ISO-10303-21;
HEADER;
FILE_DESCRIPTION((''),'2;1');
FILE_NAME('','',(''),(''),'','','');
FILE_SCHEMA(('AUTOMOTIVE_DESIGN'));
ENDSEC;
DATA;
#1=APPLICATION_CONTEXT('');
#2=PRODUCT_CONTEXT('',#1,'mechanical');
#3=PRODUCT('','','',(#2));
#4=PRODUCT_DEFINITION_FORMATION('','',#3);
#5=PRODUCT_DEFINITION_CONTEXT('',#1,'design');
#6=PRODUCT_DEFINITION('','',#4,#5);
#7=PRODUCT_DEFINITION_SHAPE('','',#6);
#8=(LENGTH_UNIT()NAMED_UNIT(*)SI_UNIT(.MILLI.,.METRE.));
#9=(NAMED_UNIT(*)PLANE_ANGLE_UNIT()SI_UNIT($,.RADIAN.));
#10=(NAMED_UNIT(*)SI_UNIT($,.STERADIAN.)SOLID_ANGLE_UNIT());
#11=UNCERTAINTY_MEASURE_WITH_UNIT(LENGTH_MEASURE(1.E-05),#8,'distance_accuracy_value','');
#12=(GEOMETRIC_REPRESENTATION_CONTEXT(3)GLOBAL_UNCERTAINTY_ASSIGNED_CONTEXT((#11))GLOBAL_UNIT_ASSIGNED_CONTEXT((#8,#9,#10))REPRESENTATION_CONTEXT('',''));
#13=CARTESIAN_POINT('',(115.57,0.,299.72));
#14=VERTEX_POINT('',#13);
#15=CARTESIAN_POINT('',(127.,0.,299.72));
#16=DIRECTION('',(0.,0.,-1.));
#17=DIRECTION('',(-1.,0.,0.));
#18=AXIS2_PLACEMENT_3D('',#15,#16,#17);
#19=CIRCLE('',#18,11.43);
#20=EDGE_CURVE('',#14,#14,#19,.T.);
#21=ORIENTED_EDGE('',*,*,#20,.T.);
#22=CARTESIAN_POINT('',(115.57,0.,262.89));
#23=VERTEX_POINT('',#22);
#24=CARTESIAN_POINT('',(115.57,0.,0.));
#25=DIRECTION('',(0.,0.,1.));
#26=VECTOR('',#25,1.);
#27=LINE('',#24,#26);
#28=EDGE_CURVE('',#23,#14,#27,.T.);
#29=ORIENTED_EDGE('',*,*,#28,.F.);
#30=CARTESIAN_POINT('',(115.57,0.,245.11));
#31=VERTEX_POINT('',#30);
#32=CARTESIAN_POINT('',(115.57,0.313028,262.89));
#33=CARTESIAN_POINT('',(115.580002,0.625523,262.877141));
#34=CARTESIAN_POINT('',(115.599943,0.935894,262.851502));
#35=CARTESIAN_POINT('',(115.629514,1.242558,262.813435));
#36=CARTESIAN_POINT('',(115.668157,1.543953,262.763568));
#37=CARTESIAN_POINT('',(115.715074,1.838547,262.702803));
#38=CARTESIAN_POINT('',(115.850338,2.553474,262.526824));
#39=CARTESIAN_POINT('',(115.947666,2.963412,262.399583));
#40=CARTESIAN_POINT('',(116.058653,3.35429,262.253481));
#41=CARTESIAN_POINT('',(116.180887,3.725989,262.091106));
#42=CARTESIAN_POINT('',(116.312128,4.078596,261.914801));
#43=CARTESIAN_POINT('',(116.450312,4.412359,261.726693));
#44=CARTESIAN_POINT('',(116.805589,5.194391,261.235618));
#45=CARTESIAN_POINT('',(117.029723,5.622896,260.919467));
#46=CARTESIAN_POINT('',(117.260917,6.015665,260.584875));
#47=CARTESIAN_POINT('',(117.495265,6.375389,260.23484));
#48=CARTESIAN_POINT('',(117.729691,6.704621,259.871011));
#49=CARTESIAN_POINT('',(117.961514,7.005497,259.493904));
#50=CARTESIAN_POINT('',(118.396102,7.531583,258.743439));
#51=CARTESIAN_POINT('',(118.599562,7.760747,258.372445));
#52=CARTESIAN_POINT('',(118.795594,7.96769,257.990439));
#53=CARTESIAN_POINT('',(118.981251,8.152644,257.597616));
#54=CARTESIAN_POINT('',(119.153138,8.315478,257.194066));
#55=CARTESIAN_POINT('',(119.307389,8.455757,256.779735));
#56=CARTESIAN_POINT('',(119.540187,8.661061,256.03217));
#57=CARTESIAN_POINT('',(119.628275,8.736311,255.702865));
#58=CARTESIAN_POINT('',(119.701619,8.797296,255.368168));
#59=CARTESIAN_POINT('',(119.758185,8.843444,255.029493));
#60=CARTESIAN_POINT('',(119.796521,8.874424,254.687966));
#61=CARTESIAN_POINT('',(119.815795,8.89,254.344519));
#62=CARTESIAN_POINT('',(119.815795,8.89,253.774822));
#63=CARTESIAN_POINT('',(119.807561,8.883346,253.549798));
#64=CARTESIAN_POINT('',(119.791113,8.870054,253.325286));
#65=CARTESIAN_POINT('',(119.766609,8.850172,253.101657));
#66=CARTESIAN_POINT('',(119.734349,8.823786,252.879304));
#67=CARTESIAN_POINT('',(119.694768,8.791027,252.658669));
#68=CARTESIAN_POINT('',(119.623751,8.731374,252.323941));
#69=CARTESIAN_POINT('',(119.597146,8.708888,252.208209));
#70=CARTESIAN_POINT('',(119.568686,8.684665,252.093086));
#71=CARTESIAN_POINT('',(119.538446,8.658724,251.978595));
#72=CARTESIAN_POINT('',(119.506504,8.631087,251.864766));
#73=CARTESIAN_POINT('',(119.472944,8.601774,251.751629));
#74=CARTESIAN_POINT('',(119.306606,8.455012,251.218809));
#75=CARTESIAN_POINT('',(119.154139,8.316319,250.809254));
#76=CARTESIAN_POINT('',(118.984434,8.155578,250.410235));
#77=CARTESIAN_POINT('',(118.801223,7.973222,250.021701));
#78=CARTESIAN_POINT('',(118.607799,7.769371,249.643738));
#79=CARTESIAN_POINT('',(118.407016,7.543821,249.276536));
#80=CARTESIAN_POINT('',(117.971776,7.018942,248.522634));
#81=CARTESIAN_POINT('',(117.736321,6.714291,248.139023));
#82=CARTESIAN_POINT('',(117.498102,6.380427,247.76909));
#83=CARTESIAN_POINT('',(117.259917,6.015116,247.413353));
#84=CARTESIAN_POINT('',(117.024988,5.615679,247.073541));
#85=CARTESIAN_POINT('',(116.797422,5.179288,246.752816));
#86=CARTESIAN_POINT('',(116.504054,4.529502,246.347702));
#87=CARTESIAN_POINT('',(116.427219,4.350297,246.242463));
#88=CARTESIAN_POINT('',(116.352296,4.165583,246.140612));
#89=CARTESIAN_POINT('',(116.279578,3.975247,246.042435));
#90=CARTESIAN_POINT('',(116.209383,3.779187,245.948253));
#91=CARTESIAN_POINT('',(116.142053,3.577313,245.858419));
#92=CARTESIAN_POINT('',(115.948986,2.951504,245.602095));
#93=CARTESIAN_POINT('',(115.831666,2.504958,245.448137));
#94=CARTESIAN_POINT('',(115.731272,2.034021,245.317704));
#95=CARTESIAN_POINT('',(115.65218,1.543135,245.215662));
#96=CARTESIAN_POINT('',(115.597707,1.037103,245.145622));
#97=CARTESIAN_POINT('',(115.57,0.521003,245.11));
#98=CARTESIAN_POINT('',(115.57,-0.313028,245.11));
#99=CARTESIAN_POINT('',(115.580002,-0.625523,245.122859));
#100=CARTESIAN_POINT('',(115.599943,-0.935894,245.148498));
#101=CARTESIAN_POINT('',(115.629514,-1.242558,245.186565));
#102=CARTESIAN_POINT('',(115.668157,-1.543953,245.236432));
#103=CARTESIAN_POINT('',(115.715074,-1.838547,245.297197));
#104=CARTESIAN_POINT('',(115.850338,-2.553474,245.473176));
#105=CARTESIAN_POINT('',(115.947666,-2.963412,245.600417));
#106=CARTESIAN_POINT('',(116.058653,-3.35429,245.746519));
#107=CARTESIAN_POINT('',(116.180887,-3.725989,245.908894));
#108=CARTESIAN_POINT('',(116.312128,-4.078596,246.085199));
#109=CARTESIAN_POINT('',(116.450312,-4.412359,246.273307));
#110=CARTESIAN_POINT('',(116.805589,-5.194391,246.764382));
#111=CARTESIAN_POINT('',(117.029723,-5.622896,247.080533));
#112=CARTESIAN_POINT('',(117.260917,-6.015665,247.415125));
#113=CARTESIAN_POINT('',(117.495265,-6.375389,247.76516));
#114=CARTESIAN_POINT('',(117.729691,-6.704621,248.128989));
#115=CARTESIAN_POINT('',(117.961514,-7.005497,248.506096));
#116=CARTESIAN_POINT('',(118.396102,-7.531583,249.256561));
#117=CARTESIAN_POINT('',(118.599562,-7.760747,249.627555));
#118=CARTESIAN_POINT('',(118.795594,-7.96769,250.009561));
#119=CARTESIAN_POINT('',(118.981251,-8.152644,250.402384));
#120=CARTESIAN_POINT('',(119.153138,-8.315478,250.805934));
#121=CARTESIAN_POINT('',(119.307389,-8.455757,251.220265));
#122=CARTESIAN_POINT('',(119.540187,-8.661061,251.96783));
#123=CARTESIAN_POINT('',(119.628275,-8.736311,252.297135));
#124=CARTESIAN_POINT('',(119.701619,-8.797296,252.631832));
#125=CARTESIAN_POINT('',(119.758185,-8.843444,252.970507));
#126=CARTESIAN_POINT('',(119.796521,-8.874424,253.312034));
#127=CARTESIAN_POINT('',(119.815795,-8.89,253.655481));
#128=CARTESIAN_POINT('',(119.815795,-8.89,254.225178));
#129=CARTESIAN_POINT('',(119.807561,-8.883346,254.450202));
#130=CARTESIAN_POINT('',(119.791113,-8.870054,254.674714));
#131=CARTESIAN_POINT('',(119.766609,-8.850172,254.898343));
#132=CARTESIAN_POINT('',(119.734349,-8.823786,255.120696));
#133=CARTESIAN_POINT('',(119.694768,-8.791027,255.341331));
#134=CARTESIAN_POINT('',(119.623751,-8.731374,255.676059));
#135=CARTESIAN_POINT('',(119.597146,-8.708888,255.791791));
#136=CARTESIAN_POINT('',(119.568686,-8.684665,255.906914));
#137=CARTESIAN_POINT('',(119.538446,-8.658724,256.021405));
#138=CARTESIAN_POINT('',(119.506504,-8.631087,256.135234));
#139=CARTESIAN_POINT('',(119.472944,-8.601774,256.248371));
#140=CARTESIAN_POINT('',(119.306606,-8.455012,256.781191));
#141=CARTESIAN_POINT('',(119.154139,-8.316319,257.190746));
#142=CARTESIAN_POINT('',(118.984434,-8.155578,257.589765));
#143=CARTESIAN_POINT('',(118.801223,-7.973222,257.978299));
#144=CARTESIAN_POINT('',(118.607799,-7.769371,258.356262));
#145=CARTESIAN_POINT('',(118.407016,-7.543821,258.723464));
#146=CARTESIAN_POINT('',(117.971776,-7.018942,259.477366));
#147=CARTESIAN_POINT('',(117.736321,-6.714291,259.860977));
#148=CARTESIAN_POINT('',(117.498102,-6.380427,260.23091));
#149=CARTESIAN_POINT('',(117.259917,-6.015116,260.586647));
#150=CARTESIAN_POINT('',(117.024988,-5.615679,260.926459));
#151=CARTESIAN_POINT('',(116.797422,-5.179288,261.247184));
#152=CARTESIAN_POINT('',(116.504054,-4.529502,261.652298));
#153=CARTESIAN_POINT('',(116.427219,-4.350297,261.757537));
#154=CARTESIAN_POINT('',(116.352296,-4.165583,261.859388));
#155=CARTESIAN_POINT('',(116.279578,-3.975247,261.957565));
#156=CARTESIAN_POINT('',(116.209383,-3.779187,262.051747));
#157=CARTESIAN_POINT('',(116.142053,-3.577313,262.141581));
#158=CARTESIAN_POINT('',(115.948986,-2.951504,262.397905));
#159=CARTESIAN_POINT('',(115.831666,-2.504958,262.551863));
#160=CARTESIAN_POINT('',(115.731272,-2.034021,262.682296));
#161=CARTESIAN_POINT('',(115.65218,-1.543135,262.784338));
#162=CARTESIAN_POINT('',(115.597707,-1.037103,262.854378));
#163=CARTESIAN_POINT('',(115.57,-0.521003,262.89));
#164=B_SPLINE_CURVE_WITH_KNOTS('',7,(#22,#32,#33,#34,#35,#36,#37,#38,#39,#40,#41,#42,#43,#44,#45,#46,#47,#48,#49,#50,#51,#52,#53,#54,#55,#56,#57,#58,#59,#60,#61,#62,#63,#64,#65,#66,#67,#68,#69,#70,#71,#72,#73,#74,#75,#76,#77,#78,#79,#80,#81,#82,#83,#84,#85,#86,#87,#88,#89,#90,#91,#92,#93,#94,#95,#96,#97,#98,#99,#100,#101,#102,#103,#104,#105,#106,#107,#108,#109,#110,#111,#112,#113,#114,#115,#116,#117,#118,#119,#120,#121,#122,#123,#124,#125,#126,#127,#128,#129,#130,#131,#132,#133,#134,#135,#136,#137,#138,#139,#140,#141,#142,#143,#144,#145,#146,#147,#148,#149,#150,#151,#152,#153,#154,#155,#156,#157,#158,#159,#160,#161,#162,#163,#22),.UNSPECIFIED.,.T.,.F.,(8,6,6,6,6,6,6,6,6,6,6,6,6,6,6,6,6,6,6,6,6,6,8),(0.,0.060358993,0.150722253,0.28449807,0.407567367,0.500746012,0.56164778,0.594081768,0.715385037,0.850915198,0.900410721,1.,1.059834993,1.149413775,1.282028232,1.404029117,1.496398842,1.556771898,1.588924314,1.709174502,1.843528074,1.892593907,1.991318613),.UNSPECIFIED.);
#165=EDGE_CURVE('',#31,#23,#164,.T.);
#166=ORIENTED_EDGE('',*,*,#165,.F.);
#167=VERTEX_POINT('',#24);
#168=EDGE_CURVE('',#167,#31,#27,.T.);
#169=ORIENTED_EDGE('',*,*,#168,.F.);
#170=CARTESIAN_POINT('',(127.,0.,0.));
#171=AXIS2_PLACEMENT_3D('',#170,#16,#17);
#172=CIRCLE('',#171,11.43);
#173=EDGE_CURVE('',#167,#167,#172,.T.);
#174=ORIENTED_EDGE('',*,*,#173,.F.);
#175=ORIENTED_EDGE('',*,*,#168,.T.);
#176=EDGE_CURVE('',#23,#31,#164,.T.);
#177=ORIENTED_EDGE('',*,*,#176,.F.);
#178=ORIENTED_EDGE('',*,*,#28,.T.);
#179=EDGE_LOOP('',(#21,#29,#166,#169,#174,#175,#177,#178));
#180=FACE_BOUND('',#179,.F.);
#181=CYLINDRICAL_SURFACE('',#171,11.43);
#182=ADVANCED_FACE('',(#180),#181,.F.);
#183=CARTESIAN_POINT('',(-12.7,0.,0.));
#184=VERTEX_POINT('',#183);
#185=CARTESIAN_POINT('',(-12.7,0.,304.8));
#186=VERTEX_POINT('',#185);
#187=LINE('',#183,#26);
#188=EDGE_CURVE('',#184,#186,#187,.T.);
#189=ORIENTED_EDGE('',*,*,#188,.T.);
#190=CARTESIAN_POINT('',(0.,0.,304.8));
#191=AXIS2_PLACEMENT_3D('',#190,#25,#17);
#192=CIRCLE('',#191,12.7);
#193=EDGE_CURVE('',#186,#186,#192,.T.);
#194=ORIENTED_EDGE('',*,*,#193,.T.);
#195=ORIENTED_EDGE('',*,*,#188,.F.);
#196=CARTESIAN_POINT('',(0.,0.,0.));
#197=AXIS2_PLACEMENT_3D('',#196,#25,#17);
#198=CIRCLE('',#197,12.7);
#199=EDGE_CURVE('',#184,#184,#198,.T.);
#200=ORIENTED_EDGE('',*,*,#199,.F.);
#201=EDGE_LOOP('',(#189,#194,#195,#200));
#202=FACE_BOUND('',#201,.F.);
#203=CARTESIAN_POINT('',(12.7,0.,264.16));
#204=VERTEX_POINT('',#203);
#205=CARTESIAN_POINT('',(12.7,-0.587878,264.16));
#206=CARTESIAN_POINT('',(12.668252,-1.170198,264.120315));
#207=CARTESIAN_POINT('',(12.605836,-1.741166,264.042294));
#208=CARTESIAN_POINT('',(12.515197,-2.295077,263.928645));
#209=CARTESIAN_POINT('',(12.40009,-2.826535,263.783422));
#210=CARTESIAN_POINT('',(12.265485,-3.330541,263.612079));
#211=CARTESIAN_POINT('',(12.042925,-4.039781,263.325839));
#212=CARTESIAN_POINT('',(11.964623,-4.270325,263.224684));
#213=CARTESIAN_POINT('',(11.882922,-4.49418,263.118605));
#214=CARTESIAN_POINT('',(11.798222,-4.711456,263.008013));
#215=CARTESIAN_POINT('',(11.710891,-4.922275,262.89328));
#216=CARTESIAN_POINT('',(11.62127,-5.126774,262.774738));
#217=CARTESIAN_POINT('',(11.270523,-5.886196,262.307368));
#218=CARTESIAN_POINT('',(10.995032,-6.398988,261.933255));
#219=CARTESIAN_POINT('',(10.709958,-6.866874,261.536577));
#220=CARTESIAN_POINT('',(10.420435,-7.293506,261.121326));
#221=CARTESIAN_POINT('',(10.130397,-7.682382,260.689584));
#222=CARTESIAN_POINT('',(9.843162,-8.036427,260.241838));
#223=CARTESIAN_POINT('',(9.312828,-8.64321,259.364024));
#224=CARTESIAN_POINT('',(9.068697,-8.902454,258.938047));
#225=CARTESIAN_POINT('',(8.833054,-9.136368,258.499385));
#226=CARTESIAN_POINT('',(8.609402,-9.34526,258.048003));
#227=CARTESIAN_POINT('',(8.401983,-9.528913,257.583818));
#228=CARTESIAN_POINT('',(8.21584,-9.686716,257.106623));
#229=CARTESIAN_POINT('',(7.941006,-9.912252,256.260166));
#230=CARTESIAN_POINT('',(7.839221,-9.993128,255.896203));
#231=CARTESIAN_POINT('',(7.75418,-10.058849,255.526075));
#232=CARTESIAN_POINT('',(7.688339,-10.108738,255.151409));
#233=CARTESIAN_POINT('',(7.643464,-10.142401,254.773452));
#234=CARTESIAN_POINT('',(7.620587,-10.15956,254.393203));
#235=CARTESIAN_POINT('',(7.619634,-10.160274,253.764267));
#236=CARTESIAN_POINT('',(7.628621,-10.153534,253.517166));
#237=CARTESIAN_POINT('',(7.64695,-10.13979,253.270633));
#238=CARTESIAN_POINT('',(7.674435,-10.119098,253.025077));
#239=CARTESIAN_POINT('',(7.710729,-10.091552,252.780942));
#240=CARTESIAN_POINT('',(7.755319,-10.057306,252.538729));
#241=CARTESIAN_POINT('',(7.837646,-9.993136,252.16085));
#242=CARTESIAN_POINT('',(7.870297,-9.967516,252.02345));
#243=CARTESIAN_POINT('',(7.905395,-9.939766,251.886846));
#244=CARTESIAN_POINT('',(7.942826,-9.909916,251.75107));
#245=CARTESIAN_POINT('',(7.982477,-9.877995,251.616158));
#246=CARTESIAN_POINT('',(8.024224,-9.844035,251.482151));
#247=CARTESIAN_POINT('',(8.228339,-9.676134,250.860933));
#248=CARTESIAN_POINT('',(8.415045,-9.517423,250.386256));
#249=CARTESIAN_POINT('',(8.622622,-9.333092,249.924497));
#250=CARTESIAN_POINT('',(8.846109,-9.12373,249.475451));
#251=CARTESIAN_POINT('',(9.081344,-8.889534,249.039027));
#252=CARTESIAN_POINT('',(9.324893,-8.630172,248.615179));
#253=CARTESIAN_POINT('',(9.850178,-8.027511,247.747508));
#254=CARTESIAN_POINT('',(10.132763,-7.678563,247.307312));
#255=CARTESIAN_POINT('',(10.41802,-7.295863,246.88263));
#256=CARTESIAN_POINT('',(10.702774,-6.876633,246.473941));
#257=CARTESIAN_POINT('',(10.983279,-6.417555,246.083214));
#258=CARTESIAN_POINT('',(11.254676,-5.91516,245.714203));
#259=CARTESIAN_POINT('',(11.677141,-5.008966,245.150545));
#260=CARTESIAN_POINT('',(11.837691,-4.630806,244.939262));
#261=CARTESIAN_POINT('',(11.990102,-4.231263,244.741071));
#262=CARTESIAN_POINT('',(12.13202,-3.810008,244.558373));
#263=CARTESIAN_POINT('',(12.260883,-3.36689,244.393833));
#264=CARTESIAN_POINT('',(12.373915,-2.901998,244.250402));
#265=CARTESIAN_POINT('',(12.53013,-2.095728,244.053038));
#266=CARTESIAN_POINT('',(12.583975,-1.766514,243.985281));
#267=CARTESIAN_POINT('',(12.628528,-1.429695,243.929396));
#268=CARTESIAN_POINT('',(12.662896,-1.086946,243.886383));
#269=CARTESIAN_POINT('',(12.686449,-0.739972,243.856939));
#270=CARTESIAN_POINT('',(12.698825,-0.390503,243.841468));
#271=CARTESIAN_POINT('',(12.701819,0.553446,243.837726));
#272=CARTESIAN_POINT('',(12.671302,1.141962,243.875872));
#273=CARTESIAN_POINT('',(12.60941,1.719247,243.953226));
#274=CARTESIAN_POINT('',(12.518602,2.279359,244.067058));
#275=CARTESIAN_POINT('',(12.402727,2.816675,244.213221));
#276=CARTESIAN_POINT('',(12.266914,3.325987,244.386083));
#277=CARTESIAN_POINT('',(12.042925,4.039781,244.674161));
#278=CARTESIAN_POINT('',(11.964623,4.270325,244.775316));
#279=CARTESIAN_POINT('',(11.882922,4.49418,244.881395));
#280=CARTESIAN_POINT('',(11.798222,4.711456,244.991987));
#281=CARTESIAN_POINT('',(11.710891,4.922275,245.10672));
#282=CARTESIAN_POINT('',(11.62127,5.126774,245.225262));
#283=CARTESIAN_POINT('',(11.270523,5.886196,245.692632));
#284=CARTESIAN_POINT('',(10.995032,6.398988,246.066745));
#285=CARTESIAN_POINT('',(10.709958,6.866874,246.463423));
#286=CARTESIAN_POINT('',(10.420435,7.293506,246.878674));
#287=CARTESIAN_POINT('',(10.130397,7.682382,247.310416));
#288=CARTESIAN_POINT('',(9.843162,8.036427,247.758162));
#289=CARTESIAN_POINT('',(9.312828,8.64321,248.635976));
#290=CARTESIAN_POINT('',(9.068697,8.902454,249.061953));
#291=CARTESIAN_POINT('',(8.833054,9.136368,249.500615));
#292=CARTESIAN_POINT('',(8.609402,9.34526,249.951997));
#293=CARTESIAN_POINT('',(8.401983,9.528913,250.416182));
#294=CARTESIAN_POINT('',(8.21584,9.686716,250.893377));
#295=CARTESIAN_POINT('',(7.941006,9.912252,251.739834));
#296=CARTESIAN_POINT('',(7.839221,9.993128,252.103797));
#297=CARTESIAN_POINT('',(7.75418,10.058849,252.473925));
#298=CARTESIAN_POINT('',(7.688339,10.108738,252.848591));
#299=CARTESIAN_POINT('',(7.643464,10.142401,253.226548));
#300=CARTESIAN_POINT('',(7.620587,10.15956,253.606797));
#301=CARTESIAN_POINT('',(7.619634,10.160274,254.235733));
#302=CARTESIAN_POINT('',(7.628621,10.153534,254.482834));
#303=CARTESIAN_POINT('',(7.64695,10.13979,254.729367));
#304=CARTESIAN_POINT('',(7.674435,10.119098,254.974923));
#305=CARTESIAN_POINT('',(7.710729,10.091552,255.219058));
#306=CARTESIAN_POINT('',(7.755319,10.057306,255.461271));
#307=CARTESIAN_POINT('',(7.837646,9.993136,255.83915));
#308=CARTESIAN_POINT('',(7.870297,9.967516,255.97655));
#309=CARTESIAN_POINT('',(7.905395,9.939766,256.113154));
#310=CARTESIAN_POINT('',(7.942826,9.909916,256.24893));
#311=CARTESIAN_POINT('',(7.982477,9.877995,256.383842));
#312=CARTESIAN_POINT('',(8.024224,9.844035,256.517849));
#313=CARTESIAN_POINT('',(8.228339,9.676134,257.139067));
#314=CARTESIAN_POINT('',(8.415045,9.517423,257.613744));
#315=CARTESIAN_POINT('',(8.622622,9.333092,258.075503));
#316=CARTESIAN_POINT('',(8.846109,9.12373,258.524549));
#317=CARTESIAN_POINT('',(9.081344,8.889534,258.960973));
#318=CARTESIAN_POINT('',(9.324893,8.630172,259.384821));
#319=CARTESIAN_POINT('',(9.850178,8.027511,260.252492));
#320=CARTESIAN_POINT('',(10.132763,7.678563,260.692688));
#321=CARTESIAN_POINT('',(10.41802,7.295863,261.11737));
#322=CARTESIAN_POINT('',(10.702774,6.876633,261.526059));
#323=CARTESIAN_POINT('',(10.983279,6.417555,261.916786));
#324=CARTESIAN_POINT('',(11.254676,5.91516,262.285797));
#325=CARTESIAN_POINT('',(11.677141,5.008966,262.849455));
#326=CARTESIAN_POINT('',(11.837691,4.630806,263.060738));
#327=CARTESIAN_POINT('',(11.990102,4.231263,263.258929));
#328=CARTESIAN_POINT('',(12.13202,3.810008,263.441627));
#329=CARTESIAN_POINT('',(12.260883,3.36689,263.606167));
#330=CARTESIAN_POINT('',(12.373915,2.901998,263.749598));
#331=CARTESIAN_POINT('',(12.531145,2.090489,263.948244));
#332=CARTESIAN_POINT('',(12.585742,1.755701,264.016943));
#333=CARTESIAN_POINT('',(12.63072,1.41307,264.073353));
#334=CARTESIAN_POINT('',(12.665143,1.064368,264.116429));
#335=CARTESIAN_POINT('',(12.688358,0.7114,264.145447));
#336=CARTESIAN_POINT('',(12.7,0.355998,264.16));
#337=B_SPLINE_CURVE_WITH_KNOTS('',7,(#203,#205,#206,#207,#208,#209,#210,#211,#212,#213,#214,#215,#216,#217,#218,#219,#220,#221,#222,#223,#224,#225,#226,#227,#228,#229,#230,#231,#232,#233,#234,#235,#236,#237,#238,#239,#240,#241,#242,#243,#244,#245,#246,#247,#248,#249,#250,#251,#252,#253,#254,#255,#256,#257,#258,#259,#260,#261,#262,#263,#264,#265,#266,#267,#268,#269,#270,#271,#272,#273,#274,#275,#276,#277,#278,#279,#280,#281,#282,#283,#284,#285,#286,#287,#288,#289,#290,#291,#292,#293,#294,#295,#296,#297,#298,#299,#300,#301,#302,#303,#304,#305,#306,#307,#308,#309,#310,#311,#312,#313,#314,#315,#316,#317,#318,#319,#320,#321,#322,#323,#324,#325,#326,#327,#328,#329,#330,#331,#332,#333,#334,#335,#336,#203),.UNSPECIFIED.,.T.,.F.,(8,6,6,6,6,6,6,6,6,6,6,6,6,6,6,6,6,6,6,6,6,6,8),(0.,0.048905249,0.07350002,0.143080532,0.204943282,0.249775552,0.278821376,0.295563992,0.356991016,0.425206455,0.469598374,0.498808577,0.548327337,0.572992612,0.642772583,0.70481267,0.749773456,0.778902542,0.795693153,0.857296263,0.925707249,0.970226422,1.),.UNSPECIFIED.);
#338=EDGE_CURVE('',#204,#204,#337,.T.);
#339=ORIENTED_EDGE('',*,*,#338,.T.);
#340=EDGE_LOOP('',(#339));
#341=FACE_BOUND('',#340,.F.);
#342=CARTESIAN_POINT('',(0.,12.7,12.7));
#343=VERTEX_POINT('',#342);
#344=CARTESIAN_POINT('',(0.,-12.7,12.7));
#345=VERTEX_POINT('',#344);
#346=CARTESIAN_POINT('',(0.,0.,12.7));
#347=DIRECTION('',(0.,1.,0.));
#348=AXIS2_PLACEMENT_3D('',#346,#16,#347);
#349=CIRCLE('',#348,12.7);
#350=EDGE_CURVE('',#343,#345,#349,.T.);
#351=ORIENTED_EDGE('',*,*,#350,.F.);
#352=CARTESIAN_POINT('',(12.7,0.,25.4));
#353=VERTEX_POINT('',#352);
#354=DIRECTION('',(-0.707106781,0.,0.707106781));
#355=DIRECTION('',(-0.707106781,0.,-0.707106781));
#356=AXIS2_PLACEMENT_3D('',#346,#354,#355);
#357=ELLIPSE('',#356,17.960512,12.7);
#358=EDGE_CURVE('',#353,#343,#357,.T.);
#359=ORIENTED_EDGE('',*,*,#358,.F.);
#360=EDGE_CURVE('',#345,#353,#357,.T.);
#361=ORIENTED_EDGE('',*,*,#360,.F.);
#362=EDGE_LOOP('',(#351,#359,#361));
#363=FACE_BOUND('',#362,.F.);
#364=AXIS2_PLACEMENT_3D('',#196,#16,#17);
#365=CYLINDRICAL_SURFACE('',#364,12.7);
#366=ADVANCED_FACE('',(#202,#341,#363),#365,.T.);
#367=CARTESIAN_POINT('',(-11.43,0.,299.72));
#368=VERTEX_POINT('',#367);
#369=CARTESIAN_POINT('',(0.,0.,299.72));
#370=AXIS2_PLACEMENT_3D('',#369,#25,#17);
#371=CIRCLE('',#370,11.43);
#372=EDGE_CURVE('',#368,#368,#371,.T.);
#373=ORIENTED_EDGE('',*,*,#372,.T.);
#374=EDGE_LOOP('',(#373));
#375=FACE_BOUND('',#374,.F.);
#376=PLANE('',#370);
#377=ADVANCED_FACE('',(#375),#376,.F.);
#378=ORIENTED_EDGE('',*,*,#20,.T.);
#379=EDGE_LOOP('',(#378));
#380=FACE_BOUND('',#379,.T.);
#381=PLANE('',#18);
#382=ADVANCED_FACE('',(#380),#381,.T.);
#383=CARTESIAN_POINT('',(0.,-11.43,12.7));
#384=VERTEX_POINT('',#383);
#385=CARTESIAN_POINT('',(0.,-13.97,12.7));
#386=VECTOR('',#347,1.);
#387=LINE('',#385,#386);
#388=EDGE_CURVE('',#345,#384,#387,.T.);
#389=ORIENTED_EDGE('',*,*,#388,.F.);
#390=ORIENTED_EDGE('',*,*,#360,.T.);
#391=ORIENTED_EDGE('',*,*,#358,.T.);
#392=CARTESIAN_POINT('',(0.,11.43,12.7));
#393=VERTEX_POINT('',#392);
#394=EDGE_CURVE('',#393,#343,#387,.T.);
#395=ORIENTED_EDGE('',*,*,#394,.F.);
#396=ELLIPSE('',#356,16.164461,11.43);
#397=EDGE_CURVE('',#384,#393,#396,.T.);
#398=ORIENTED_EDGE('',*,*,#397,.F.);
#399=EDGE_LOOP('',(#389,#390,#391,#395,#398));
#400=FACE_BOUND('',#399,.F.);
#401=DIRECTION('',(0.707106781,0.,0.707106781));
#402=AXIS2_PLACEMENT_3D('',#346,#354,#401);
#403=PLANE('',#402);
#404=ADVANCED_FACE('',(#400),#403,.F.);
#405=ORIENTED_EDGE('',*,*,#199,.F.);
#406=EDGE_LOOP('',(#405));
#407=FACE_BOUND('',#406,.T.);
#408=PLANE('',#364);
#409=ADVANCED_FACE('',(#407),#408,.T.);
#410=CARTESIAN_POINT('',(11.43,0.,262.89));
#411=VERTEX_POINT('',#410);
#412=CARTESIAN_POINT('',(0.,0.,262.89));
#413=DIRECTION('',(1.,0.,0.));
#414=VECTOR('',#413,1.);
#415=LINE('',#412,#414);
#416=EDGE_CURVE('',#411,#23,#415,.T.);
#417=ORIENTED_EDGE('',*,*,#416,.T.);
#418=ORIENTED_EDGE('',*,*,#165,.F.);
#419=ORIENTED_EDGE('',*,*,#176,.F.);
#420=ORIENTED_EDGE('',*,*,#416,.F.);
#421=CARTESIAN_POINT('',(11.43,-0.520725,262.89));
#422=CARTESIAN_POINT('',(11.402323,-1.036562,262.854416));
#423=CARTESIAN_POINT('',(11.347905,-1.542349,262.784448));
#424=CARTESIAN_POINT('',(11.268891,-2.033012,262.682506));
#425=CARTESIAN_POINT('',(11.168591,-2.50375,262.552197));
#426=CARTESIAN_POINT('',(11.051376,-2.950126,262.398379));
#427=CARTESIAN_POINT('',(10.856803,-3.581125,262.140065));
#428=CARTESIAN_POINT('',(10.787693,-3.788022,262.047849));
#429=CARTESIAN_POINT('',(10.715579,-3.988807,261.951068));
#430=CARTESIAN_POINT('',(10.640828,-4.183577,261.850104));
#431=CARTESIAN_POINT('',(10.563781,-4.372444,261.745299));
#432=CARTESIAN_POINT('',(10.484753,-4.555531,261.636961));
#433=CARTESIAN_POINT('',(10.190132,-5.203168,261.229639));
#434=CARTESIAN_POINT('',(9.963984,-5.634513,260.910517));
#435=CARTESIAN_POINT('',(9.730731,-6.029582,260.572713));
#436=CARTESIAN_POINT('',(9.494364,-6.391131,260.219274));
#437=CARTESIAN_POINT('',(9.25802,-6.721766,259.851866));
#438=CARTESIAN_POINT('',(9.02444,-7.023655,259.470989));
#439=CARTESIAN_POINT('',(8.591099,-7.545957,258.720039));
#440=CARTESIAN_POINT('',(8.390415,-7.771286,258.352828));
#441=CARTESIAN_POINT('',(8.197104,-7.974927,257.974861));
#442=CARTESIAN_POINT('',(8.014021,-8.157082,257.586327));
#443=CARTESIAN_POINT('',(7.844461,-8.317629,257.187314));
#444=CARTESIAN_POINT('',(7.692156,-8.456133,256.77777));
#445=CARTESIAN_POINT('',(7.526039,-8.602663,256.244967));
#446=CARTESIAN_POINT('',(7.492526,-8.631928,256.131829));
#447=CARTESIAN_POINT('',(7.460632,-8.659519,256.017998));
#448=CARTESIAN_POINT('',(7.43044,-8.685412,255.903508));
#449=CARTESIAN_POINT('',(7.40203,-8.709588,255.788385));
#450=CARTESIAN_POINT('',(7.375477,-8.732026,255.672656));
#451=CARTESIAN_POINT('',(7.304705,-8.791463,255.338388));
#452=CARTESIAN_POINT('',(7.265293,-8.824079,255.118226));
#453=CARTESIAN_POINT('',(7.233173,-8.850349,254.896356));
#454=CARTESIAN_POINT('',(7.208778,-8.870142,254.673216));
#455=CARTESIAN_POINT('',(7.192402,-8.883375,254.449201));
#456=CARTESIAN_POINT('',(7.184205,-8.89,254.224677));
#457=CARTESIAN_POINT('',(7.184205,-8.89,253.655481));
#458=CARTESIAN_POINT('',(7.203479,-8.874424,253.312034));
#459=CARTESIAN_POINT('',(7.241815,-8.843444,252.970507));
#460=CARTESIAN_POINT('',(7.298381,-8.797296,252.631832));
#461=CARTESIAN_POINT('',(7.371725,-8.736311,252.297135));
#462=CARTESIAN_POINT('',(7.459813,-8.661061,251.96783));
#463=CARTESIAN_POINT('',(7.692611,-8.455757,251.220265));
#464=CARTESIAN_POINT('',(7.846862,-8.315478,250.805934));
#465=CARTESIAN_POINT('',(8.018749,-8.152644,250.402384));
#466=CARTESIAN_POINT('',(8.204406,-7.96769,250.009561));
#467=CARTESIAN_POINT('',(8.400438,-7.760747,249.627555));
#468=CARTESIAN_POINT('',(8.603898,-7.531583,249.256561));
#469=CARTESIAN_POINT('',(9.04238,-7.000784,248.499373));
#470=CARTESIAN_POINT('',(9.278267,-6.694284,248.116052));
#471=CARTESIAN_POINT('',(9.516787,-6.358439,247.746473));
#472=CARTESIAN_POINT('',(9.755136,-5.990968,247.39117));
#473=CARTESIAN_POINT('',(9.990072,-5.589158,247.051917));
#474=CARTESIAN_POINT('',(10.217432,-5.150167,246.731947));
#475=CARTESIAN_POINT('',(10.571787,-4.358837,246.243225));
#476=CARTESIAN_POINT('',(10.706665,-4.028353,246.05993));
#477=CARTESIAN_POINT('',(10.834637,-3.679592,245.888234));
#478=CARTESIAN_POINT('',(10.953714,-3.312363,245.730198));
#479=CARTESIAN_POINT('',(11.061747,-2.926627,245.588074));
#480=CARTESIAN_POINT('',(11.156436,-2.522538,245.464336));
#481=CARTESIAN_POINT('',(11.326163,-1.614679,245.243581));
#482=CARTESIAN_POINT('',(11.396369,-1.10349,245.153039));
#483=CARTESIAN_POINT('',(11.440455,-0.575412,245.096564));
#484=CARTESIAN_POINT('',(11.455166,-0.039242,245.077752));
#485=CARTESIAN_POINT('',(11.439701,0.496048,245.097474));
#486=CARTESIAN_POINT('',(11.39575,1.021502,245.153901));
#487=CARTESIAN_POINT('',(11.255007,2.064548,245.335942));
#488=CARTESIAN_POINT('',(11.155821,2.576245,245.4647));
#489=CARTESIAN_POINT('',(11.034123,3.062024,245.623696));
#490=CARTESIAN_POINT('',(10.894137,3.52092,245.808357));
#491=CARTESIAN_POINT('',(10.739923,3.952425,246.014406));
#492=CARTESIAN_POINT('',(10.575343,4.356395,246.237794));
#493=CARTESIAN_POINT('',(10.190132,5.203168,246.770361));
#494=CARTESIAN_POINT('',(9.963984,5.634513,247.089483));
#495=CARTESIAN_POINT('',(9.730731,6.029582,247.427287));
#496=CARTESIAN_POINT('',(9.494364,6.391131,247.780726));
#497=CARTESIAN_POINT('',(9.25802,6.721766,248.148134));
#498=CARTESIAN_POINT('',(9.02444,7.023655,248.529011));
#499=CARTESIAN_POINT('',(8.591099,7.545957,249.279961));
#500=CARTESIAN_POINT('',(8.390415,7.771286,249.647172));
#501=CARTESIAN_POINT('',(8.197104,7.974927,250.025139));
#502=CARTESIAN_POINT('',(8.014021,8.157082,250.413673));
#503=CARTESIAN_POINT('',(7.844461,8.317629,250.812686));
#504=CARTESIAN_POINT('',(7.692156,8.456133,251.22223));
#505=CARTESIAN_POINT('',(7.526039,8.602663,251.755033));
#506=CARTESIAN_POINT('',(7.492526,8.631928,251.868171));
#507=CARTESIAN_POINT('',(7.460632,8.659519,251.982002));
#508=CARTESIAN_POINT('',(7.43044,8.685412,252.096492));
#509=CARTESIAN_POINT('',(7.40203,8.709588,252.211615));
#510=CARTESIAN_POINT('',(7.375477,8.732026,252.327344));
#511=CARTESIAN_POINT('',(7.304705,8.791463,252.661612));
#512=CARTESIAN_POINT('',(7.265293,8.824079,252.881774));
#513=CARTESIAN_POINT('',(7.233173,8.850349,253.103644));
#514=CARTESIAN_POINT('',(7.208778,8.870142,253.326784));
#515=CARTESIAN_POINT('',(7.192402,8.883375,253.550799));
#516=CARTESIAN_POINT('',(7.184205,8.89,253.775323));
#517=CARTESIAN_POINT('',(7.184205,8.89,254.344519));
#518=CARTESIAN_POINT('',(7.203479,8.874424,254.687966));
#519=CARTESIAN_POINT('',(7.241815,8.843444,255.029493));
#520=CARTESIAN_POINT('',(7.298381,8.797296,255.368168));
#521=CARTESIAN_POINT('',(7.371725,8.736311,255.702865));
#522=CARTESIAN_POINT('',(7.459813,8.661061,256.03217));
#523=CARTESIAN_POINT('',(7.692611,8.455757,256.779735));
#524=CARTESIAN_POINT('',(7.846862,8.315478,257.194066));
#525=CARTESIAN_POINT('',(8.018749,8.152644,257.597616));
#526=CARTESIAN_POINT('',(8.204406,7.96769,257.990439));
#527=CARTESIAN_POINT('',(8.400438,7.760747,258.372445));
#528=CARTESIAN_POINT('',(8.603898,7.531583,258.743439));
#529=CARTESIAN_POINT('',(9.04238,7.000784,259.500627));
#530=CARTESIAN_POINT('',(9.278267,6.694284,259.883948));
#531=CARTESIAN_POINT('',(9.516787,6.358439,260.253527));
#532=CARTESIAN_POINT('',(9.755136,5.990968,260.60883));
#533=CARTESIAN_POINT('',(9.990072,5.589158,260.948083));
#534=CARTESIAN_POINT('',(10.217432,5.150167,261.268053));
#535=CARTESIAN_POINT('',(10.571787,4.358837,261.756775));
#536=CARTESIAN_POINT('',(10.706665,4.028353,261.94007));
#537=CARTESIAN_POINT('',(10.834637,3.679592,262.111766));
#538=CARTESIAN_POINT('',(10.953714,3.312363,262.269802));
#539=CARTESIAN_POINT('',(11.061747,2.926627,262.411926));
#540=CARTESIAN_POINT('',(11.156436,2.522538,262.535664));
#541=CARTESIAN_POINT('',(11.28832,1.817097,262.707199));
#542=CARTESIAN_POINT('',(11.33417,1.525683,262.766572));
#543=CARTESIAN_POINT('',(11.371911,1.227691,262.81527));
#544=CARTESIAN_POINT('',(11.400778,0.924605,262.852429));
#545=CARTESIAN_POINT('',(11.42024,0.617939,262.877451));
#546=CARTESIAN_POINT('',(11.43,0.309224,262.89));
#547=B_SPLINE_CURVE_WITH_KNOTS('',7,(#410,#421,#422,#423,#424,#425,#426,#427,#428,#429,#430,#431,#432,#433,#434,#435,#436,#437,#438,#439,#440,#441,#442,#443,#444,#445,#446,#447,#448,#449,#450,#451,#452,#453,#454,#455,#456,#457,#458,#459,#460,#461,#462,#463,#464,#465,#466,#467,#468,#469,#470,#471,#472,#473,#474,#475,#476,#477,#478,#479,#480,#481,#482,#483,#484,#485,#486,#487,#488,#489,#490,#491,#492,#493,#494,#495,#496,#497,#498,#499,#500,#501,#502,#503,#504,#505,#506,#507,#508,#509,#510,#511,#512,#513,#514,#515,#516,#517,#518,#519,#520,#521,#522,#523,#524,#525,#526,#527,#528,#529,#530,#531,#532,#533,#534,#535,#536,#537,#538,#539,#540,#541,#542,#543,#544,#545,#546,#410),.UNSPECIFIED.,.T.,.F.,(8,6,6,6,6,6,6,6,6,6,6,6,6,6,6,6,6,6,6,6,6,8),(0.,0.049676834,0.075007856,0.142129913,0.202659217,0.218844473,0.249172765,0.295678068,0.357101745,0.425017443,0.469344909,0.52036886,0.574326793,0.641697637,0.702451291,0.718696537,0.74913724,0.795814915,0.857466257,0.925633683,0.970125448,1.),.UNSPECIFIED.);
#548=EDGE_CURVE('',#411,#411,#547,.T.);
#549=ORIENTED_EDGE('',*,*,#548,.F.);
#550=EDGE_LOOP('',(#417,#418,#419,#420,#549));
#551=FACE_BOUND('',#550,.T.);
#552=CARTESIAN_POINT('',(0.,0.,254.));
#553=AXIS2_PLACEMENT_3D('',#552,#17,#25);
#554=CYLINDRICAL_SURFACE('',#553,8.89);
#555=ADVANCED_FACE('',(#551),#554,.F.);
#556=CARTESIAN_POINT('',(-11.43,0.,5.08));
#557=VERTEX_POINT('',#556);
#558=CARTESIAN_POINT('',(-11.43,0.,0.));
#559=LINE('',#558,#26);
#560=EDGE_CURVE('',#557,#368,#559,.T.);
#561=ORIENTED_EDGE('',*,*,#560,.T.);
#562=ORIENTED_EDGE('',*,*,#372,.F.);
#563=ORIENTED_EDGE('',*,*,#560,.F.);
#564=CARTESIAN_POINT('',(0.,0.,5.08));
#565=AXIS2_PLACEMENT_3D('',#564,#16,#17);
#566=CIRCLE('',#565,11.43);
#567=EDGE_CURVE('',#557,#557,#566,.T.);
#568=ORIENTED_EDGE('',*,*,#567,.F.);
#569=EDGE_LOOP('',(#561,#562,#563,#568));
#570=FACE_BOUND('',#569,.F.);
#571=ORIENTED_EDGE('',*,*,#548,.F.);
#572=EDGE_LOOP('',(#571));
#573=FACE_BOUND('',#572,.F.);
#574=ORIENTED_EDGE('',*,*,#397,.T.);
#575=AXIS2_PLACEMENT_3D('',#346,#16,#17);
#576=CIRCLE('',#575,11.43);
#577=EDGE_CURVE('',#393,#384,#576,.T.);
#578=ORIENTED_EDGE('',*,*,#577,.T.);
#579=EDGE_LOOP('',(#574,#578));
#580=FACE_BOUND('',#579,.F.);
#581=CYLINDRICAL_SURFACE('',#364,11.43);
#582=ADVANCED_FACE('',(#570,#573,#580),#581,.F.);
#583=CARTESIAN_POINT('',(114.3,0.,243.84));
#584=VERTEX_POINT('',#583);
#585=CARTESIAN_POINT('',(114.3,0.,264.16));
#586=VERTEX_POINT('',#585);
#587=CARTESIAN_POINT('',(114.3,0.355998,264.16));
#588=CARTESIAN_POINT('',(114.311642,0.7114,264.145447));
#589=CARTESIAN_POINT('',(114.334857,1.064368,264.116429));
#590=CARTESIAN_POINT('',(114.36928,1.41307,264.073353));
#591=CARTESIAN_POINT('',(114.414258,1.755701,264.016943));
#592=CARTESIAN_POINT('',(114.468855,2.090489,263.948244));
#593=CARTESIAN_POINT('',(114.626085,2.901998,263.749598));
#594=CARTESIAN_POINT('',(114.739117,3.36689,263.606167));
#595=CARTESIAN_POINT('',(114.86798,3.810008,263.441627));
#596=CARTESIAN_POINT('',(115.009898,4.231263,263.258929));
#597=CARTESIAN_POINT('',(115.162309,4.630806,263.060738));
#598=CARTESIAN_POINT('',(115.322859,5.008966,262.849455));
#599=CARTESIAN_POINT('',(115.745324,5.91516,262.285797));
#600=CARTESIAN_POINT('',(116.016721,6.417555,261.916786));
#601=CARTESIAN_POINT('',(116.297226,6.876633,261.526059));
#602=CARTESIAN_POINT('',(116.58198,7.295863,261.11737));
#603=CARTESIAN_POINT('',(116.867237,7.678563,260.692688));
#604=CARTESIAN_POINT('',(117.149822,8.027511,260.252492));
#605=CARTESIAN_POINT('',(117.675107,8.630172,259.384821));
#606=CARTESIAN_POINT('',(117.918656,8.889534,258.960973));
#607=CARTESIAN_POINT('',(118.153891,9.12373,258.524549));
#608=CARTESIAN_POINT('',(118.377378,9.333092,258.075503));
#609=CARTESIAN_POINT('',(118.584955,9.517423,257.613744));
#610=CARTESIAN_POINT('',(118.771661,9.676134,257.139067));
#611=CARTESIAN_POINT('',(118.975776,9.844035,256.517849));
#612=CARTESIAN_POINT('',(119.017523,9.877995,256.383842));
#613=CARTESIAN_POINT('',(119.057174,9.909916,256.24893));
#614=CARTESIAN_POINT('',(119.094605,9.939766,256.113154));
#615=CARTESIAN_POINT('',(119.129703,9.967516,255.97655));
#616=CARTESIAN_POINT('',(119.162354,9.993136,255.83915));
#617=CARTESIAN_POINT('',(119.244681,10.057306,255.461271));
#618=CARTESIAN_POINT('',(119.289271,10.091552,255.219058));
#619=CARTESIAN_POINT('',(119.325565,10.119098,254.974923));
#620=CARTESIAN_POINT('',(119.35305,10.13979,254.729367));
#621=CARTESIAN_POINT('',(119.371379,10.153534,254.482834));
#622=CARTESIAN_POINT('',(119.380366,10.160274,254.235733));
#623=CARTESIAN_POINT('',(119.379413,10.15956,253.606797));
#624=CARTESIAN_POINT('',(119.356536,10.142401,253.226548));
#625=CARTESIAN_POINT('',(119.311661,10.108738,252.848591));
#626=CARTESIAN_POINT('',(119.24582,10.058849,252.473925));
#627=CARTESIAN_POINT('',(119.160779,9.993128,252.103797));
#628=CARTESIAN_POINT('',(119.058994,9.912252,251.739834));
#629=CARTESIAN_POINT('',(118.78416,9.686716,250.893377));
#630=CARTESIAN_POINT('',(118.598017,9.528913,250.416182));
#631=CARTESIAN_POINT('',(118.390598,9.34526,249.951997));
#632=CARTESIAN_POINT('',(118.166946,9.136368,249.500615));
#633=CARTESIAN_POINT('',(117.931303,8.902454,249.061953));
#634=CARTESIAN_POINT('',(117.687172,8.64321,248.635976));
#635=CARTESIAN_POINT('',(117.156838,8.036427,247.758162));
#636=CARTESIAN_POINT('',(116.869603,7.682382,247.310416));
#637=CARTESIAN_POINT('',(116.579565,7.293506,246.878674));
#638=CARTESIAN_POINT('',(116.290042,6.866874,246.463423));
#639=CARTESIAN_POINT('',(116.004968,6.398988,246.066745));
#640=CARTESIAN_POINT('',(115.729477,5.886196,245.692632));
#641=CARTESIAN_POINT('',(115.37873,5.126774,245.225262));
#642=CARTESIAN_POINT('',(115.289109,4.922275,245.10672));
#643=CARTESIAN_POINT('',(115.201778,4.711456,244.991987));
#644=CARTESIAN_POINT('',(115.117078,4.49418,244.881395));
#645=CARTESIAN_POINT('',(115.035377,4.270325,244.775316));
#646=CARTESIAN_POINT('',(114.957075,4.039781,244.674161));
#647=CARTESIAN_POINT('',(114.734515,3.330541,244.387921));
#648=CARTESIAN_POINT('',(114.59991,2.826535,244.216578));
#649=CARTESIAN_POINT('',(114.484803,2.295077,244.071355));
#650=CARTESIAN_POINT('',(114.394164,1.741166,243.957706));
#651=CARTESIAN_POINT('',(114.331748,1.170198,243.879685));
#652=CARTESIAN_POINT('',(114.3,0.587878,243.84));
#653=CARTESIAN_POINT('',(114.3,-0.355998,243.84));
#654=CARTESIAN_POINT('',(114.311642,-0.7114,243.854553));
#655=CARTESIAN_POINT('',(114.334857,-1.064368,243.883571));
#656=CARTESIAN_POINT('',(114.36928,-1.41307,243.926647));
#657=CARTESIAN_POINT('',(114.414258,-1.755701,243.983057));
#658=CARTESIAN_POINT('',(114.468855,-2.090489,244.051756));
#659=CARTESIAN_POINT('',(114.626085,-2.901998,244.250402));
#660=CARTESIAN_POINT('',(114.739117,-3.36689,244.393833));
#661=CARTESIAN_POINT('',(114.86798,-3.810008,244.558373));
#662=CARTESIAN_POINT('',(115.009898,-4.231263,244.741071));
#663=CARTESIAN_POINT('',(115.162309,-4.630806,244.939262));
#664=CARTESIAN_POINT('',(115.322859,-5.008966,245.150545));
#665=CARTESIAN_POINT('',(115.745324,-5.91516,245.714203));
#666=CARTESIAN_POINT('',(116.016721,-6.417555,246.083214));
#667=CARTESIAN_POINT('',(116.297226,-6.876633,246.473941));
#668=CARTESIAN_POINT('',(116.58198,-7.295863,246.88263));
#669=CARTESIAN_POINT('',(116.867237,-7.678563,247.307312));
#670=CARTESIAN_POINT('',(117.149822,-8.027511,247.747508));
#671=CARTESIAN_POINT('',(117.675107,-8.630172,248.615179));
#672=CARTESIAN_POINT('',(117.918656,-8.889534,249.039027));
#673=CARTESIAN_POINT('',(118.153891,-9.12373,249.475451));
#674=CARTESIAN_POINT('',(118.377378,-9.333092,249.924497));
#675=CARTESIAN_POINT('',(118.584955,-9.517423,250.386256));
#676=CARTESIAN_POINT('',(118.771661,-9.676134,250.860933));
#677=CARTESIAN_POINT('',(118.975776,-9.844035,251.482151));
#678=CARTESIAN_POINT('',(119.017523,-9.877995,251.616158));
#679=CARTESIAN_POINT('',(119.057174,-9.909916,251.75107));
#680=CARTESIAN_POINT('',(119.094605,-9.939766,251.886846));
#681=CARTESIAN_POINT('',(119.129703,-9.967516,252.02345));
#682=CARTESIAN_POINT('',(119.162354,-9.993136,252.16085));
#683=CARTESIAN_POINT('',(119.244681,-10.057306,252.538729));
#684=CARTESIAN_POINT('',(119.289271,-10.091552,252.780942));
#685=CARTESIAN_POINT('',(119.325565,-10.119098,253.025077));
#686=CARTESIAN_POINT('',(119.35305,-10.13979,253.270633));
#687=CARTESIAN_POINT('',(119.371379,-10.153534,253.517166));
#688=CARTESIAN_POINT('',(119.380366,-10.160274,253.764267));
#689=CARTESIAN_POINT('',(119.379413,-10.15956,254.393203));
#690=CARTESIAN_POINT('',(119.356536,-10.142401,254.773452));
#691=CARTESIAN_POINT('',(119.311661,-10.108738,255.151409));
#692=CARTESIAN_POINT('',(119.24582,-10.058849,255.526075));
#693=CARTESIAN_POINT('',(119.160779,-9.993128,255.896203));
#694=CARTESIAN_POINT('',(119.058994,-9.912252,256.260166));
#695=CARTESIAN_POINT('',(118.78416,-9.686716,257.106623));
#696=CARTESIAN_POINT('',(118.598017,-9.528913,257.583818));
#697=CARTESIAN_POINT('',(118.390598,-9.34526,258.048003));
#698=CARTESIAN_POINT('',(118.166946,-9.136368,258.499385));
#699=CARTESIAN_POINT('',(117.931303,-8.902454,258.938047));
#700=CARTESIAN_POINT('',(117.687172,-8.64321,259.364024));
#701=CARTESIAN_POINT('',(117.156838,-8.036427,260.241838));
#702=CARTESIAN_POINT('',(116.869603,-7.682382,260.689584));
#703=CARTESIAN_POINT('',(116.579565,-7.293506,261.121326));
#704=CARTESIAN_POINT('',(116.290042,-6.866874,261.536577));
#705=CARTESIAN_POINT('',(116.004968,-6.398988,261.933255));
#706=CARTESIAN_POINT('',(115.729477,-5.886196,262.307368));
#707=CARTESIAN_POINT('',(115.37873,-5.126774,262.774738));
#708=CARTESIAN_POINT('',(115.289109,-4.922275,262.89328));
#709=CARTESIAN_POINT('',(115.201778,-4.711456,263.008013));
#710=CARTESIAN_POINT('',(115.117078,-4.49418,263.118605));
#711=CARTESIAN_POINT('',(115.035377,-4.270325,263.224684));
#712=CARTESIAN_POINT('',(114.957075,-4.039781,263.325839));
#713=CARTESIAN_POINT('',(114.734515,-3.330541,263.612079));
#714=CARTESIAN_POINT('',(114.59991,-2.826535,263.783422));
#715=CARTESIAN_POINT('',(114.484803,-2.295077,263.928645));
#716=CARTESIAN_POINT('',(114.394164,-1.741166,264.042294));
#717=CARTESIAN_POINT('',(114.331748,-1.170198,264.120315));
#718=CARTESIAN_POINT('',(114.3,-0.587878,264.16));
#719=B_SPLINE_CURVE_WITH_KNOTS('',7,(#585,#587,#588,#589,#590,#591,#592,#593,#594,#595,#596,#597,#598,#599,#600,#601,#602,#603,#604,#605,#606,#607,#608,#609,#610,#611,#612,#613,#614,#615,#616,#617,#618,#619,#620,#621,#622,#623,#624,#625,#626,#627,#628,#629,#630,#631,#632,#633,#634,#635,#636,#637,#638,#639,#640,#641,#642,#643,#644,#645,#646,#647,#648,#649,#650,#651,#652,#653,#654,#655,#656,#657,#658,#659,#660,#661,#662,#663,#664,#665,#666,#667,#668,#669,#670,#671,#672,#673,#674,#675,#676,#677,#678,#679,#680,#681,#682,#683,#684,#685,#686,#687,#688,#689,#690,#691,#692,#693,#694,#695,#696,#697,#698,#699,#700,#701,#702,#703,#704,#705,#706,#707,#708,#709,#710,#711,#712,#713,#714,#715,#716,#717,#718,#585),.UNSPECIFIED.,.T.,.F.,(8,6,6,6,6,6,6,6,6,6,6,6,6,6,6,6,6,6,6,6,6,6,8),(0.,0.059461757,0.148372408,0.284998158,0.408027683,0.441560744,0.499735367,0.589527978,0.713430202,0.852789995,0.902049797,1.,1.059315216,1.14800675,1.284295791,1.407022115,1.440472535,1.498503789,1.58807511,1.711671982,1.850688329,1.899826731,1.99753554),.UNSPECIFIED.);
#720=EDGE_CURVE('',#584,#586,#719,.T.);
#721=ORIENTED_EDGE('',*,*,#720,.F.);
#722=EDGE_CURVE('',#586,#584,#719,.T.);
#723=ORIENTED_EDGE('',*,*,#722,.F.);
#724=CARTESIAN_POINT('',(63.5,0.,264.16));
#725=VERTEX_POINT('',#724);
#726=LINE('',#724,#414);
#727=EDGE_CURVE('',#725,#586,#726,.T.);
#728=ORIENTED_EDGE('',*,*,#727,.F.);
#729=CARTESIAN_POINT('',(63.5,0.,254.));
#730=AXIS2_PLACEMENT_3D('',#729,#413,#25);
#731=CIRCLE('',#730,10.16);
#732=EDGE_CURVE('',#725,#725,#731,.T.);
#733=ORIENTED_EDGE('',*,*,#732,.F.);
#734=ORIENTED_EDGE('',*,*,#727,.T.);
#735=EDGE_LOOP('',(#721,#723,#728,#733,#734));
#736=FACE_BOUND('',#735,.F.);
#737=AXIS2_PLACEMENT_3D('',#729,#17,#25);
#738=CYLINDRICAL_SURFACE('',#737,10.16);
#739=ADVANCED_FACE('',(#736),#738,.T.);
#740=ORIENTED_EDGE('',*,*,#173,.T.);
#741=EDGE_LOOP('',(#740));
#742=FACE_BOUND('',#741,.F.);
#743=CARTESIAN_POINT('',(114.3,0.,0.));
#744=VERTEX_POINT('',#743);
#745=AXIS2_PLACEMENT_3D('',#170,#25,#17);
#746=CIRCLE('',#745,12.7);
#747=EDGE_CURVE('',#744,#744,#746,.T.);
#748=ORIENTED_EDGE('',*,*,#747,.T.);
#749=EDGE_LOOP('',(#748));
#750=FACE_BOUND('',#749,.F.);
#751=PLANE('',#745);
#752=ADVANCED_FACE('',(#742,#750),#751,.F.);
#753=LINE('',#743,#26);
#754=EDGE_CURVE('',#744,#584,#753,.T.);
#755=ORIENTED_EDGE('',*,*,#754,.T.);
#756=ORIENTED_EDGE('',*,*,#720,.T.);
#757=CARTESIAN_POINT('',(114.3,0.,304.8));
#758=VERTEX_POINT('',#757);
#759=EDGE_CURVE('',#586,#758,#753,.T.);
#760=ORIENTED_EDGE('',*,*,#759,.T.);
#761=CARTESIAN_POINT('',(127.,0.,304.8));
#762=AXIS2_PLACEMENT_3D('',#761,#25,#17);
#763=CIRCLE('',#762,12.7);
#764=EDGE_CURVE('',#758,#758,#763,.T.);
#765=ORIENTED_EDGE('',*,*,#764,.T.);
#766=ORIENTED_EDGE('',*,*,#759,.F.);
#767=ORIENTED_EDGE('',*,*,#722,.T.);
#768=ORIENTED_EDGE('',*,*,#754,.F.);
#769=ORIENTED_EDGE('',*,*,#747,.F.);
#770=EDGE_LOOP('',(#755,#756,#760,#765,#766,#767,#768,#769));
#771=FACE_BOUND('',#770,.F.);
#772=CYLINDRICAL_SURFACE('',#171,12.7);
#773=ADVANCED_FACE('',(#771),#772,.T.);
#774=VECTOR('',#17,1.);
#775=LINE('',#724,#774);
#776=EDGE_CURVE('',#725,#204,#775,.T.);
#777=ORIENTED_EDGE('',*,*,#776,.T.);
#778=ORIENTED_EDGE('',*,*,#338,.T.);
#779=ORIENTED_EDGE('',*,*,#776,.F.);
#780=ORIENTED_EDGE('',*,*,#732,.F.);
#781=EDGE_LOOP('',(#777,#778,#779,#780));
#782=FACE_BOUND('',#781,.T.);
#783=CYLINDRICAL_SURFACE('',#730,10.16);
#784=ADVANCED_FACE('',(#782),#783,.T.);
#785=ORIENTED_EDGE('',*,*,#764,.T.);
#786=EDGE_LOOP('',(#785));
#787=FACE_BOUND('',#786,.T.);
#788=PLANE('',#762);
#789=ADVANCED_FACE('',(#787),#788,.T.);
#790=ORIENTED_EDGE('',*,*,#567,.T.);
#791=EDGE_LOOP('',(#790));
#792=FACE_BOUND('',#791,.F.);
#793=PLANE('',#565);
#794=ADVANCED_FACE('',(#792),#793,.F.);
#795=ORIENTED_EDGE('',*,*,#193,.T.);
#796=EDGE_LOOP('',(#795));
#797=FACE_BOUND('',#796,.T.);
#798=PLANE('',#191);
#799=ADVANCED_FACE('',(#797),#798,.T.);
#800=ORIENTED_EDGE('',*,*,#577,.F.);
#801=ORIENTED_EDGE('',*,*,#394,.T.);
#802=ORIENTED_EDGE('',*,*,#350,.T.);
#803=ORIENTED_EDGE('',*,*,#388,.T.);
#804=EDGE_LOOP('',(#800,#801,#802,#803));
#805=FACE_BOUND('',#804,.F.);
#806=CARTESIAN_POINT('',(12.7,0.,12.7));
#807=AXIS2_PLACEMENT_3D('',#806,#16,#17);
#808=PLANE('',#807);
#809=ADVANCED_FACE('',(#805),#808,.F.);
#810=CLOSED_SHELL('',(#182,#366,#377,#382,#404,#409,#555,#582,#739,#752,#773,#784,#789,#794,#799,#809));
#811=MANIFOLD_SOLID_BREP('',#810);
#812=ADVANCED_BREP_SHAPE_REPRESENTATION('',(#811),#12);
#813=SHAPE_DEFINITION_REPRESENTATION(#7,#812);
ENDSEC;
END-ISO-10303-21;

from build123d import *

# Parameters (mm, degrees)
SKETCH1_R                            = 12.7
BOSS_EXTRUDE2_DEPTH                  = 304.8
BOSS_EXTRUDE2_2_DEPTH                = 304.8
SKETCH10_R                           = 11.43
CUT_EXTRUDE1_DEPTH                   = 304.8
SKETCH11_R                           = 11.43
BOSS_EXTRUDE3_DEPTH                  = 5.08
SKETCH12_R                           = 11.43
BOSS_EXTRUDE4_DEPTH                  = 5.08
CUT_EXTRUDE2_DEPTH                   = 13.97
SKETCH14_R                           = 11.43
CUT_EXTRUDE3_DEPTH                   = 299.72
BOSS_EXTRUDE5_REACH                  = 316.437
BOSS_EXTRUDE5_END_RADIUS             = 12.7
SKETCH15_R                           = 10.16
BOSS_EXTRUDE5_DIRECTION_2_REACH      = 316.437
BOSS_EXTRUDE5_DIRECTION_2_END_RADIUS = 12.7
CUT_EXTRUDE4_REACH                   = 337.53
CUT_EXTRUDE4_END_RADIUS              = 11.43
SKETCH17_R                           = 8.89


with BuildPart() as part:
    # Sketch1 → Boss-Extrude2 (new body)
    with BuildSketch(Plane.XY):
        with Locations(Location((0, 0, 0), (0, 0, 180))):
            Circle(SKETCH1_R)
    extrude(amount=BOSS_EXTRUDE2_DEPTH)

    # Sketch10 → Cut-Extrude1 (cut)
    with BuildSketch(Plane(origin=(0, 0, 0), x_dir=(-1, 0, 0), z_dir=(0, 0, -1))):
        Circle(SKETCH10_R)
    extrude(amount=-CUT_EXTRUDE1_DEPTH, mode=Mode.SUBTRACT)

    # Sketch11 → Boss-Extrude3 (add)
    with BuildSketch(Plane(origin=(0, 0, 0), x_dir=(-1, 0, 0), z_dir=(0, 0, -1))):
        Circle(SKETCH11_R)
    extrude(amount=-BOSS_EXTRUDE3_DEPTH)

    # Sketch12 → Boss-Extrude4 (add)
    with BuildSketch(Plane.XY.offset(304.8)):
        with Locations(Location((0, 0, 0), (0, 0, 180))):
            Circle(SKETCH12_R)
    extrude(amount=-BOSS_EXTRUDE4_DEPTH)

    # Sketch3 → Cut-Extrude2 (cut, symmetric)
    with BuildSketch(Plane(origin=(0, 0, 0), x_dir=(1, 0, 0), z_dir=(0, 1, 0))):
        Polygon((12.7, -12.7), (0, -12.7), (12.7, -25.4), align=None)
    extrude(amount=CUT_EXTRUDE2_DEPTH, both=True, mode=Mode.SUBTRACT)



with BuildPart() as body_2:
    # Sketch1 → Boss-Extrude2 2 (new body)
    with BuildSketch(Plane.XY):
        with Locations(Location((127, 0, 0), (0, 0, 180))):
            Circle(SKETCH1_R)
    extrude(amount=BOSS_EXTRUDE2_2_DEPTH)

    # Sketch14 → Cut-Extrude3 (cut)
    with BuildSketch(Plane(origin=(0, 0, 0), x_dir=(-1, 0, 0), z_dir=(0, 0, -1))):
        with Locations((-127, 0)):
            Circle(SKETCH14_R)
    extrude(amount=-CUT_EXTRUDE3_DEPTH, mode=Mode.SUBTRACT)


with BuildPart() as part_1:
    add(part.part)

    add(body_2.part)  # Boss-Extrude5 merges body 2
    # Boss-Extrude5: up to this cylinder (the profile starts outside it)
    boss_extrude5_end = Plane(origin=(127, 0, 254), z_dir=(0, 0, -1)) * Cylinder(BOSS_EXTRUDE5_END_RADIUS, 659.274, mode=Mode.PRIVATE)
    # Sketch15 → Boss-Extrude5 (add, up to the surface)
    with BuildSketch(Plane(origin=(63.5, 0, 0), x_dir=(0, 0, -1), z_dir=(1, 0, 0)), mode=Mode.PRIVATE) as boss_extrude5_sk1:
        with Locations(Location((-254, 0, 0), (0, 0, 180))):
            Circle(SKETCH15_R)
    boss_extrude5_tool1 = extrude(boss_extrude5_sk1.sketch, amount=BOSS_EXTRUDE5_REACH, mode=Mode.PRIVATE) - boss_extrude5_end
    add(boss_extrude5_tool1.solids().sort_by_distance((63.5, 0, 254))[0])

    # Boss-Extrude5 direction 2: up to this cylinder (the profile starts outside it)
    boss_extrude5_direction_2_end = Plane(origin=(0, 0, 254), z_dir=(0, 0, -1)) * Cylinder(BOSS_EXTRUDE5_DIRECTION_2_END_RADIUS, 659.274, mode=Mode.PRIVATE)
    # Sketch15 → Boss-Extrude5 direction 2 (add, up to the surface)
    with BuildSketch(Plane(origin=(63.5, 0, 0), x_dir=(0, 0, -1), z_dir=(1, 0, 0)), mode=Mode.PRIVATE) as boss_extrude5_direction_2_sk1:
        with Locations(Location((-254, 0, 0), (0, 0, 180))):
            Circle(SKETCH15_R)
    boss_extrude5_direction_2_tool1 = extrude(boss_extrude5_direction_2_sk1.sketch, amount=-BOSS_EXTRUDE5_DIRECTION_2_REACH, mode=Mode.PRIVATE) - boss_extrude5_direction_2_end
    add(boss_extrude5_direction_2_tool1.solids().sort_by_distance((63.5, 0, 254))[0])

    # Cut-Extrude4: up to this cylinder (the profile starts outside it)
    cut_extrude4_end = Plane(origin=(127, 0, 254), z_dir=(0, 0, -1)) * Cylinder(CUT_EXTRUDE4_END_RADIUS, 698.92, mode=Mode.PRIVATE)
    # Sketch17 → Cut-Extrude4 (cut, up to the surface)
    with BuildSketch(Plane(origin=(0, 0, 0), x_dir=(0, 0, -1), z_dir=(1, 0, 0)), mode=Mode.PRIVATE) as cut_extrude4_sk1:
        with Locations(Location((-254, 0, 0), (0, 0, 180))):
            Circle(SKETCH17_R)
    cut_extrude4_tool1 = extrude(cut_extrude4_sk1.sketch, amount=CUT_EXTRUDE4_REACH, mode=Mode.PRIVATE) - cut_extrude4_end
    add(cut_extrude4_tool1.solids().sort_by_distance((0, 0, 254))[0], mode=Mode.SUBTRACT)


solid = part_1.part
